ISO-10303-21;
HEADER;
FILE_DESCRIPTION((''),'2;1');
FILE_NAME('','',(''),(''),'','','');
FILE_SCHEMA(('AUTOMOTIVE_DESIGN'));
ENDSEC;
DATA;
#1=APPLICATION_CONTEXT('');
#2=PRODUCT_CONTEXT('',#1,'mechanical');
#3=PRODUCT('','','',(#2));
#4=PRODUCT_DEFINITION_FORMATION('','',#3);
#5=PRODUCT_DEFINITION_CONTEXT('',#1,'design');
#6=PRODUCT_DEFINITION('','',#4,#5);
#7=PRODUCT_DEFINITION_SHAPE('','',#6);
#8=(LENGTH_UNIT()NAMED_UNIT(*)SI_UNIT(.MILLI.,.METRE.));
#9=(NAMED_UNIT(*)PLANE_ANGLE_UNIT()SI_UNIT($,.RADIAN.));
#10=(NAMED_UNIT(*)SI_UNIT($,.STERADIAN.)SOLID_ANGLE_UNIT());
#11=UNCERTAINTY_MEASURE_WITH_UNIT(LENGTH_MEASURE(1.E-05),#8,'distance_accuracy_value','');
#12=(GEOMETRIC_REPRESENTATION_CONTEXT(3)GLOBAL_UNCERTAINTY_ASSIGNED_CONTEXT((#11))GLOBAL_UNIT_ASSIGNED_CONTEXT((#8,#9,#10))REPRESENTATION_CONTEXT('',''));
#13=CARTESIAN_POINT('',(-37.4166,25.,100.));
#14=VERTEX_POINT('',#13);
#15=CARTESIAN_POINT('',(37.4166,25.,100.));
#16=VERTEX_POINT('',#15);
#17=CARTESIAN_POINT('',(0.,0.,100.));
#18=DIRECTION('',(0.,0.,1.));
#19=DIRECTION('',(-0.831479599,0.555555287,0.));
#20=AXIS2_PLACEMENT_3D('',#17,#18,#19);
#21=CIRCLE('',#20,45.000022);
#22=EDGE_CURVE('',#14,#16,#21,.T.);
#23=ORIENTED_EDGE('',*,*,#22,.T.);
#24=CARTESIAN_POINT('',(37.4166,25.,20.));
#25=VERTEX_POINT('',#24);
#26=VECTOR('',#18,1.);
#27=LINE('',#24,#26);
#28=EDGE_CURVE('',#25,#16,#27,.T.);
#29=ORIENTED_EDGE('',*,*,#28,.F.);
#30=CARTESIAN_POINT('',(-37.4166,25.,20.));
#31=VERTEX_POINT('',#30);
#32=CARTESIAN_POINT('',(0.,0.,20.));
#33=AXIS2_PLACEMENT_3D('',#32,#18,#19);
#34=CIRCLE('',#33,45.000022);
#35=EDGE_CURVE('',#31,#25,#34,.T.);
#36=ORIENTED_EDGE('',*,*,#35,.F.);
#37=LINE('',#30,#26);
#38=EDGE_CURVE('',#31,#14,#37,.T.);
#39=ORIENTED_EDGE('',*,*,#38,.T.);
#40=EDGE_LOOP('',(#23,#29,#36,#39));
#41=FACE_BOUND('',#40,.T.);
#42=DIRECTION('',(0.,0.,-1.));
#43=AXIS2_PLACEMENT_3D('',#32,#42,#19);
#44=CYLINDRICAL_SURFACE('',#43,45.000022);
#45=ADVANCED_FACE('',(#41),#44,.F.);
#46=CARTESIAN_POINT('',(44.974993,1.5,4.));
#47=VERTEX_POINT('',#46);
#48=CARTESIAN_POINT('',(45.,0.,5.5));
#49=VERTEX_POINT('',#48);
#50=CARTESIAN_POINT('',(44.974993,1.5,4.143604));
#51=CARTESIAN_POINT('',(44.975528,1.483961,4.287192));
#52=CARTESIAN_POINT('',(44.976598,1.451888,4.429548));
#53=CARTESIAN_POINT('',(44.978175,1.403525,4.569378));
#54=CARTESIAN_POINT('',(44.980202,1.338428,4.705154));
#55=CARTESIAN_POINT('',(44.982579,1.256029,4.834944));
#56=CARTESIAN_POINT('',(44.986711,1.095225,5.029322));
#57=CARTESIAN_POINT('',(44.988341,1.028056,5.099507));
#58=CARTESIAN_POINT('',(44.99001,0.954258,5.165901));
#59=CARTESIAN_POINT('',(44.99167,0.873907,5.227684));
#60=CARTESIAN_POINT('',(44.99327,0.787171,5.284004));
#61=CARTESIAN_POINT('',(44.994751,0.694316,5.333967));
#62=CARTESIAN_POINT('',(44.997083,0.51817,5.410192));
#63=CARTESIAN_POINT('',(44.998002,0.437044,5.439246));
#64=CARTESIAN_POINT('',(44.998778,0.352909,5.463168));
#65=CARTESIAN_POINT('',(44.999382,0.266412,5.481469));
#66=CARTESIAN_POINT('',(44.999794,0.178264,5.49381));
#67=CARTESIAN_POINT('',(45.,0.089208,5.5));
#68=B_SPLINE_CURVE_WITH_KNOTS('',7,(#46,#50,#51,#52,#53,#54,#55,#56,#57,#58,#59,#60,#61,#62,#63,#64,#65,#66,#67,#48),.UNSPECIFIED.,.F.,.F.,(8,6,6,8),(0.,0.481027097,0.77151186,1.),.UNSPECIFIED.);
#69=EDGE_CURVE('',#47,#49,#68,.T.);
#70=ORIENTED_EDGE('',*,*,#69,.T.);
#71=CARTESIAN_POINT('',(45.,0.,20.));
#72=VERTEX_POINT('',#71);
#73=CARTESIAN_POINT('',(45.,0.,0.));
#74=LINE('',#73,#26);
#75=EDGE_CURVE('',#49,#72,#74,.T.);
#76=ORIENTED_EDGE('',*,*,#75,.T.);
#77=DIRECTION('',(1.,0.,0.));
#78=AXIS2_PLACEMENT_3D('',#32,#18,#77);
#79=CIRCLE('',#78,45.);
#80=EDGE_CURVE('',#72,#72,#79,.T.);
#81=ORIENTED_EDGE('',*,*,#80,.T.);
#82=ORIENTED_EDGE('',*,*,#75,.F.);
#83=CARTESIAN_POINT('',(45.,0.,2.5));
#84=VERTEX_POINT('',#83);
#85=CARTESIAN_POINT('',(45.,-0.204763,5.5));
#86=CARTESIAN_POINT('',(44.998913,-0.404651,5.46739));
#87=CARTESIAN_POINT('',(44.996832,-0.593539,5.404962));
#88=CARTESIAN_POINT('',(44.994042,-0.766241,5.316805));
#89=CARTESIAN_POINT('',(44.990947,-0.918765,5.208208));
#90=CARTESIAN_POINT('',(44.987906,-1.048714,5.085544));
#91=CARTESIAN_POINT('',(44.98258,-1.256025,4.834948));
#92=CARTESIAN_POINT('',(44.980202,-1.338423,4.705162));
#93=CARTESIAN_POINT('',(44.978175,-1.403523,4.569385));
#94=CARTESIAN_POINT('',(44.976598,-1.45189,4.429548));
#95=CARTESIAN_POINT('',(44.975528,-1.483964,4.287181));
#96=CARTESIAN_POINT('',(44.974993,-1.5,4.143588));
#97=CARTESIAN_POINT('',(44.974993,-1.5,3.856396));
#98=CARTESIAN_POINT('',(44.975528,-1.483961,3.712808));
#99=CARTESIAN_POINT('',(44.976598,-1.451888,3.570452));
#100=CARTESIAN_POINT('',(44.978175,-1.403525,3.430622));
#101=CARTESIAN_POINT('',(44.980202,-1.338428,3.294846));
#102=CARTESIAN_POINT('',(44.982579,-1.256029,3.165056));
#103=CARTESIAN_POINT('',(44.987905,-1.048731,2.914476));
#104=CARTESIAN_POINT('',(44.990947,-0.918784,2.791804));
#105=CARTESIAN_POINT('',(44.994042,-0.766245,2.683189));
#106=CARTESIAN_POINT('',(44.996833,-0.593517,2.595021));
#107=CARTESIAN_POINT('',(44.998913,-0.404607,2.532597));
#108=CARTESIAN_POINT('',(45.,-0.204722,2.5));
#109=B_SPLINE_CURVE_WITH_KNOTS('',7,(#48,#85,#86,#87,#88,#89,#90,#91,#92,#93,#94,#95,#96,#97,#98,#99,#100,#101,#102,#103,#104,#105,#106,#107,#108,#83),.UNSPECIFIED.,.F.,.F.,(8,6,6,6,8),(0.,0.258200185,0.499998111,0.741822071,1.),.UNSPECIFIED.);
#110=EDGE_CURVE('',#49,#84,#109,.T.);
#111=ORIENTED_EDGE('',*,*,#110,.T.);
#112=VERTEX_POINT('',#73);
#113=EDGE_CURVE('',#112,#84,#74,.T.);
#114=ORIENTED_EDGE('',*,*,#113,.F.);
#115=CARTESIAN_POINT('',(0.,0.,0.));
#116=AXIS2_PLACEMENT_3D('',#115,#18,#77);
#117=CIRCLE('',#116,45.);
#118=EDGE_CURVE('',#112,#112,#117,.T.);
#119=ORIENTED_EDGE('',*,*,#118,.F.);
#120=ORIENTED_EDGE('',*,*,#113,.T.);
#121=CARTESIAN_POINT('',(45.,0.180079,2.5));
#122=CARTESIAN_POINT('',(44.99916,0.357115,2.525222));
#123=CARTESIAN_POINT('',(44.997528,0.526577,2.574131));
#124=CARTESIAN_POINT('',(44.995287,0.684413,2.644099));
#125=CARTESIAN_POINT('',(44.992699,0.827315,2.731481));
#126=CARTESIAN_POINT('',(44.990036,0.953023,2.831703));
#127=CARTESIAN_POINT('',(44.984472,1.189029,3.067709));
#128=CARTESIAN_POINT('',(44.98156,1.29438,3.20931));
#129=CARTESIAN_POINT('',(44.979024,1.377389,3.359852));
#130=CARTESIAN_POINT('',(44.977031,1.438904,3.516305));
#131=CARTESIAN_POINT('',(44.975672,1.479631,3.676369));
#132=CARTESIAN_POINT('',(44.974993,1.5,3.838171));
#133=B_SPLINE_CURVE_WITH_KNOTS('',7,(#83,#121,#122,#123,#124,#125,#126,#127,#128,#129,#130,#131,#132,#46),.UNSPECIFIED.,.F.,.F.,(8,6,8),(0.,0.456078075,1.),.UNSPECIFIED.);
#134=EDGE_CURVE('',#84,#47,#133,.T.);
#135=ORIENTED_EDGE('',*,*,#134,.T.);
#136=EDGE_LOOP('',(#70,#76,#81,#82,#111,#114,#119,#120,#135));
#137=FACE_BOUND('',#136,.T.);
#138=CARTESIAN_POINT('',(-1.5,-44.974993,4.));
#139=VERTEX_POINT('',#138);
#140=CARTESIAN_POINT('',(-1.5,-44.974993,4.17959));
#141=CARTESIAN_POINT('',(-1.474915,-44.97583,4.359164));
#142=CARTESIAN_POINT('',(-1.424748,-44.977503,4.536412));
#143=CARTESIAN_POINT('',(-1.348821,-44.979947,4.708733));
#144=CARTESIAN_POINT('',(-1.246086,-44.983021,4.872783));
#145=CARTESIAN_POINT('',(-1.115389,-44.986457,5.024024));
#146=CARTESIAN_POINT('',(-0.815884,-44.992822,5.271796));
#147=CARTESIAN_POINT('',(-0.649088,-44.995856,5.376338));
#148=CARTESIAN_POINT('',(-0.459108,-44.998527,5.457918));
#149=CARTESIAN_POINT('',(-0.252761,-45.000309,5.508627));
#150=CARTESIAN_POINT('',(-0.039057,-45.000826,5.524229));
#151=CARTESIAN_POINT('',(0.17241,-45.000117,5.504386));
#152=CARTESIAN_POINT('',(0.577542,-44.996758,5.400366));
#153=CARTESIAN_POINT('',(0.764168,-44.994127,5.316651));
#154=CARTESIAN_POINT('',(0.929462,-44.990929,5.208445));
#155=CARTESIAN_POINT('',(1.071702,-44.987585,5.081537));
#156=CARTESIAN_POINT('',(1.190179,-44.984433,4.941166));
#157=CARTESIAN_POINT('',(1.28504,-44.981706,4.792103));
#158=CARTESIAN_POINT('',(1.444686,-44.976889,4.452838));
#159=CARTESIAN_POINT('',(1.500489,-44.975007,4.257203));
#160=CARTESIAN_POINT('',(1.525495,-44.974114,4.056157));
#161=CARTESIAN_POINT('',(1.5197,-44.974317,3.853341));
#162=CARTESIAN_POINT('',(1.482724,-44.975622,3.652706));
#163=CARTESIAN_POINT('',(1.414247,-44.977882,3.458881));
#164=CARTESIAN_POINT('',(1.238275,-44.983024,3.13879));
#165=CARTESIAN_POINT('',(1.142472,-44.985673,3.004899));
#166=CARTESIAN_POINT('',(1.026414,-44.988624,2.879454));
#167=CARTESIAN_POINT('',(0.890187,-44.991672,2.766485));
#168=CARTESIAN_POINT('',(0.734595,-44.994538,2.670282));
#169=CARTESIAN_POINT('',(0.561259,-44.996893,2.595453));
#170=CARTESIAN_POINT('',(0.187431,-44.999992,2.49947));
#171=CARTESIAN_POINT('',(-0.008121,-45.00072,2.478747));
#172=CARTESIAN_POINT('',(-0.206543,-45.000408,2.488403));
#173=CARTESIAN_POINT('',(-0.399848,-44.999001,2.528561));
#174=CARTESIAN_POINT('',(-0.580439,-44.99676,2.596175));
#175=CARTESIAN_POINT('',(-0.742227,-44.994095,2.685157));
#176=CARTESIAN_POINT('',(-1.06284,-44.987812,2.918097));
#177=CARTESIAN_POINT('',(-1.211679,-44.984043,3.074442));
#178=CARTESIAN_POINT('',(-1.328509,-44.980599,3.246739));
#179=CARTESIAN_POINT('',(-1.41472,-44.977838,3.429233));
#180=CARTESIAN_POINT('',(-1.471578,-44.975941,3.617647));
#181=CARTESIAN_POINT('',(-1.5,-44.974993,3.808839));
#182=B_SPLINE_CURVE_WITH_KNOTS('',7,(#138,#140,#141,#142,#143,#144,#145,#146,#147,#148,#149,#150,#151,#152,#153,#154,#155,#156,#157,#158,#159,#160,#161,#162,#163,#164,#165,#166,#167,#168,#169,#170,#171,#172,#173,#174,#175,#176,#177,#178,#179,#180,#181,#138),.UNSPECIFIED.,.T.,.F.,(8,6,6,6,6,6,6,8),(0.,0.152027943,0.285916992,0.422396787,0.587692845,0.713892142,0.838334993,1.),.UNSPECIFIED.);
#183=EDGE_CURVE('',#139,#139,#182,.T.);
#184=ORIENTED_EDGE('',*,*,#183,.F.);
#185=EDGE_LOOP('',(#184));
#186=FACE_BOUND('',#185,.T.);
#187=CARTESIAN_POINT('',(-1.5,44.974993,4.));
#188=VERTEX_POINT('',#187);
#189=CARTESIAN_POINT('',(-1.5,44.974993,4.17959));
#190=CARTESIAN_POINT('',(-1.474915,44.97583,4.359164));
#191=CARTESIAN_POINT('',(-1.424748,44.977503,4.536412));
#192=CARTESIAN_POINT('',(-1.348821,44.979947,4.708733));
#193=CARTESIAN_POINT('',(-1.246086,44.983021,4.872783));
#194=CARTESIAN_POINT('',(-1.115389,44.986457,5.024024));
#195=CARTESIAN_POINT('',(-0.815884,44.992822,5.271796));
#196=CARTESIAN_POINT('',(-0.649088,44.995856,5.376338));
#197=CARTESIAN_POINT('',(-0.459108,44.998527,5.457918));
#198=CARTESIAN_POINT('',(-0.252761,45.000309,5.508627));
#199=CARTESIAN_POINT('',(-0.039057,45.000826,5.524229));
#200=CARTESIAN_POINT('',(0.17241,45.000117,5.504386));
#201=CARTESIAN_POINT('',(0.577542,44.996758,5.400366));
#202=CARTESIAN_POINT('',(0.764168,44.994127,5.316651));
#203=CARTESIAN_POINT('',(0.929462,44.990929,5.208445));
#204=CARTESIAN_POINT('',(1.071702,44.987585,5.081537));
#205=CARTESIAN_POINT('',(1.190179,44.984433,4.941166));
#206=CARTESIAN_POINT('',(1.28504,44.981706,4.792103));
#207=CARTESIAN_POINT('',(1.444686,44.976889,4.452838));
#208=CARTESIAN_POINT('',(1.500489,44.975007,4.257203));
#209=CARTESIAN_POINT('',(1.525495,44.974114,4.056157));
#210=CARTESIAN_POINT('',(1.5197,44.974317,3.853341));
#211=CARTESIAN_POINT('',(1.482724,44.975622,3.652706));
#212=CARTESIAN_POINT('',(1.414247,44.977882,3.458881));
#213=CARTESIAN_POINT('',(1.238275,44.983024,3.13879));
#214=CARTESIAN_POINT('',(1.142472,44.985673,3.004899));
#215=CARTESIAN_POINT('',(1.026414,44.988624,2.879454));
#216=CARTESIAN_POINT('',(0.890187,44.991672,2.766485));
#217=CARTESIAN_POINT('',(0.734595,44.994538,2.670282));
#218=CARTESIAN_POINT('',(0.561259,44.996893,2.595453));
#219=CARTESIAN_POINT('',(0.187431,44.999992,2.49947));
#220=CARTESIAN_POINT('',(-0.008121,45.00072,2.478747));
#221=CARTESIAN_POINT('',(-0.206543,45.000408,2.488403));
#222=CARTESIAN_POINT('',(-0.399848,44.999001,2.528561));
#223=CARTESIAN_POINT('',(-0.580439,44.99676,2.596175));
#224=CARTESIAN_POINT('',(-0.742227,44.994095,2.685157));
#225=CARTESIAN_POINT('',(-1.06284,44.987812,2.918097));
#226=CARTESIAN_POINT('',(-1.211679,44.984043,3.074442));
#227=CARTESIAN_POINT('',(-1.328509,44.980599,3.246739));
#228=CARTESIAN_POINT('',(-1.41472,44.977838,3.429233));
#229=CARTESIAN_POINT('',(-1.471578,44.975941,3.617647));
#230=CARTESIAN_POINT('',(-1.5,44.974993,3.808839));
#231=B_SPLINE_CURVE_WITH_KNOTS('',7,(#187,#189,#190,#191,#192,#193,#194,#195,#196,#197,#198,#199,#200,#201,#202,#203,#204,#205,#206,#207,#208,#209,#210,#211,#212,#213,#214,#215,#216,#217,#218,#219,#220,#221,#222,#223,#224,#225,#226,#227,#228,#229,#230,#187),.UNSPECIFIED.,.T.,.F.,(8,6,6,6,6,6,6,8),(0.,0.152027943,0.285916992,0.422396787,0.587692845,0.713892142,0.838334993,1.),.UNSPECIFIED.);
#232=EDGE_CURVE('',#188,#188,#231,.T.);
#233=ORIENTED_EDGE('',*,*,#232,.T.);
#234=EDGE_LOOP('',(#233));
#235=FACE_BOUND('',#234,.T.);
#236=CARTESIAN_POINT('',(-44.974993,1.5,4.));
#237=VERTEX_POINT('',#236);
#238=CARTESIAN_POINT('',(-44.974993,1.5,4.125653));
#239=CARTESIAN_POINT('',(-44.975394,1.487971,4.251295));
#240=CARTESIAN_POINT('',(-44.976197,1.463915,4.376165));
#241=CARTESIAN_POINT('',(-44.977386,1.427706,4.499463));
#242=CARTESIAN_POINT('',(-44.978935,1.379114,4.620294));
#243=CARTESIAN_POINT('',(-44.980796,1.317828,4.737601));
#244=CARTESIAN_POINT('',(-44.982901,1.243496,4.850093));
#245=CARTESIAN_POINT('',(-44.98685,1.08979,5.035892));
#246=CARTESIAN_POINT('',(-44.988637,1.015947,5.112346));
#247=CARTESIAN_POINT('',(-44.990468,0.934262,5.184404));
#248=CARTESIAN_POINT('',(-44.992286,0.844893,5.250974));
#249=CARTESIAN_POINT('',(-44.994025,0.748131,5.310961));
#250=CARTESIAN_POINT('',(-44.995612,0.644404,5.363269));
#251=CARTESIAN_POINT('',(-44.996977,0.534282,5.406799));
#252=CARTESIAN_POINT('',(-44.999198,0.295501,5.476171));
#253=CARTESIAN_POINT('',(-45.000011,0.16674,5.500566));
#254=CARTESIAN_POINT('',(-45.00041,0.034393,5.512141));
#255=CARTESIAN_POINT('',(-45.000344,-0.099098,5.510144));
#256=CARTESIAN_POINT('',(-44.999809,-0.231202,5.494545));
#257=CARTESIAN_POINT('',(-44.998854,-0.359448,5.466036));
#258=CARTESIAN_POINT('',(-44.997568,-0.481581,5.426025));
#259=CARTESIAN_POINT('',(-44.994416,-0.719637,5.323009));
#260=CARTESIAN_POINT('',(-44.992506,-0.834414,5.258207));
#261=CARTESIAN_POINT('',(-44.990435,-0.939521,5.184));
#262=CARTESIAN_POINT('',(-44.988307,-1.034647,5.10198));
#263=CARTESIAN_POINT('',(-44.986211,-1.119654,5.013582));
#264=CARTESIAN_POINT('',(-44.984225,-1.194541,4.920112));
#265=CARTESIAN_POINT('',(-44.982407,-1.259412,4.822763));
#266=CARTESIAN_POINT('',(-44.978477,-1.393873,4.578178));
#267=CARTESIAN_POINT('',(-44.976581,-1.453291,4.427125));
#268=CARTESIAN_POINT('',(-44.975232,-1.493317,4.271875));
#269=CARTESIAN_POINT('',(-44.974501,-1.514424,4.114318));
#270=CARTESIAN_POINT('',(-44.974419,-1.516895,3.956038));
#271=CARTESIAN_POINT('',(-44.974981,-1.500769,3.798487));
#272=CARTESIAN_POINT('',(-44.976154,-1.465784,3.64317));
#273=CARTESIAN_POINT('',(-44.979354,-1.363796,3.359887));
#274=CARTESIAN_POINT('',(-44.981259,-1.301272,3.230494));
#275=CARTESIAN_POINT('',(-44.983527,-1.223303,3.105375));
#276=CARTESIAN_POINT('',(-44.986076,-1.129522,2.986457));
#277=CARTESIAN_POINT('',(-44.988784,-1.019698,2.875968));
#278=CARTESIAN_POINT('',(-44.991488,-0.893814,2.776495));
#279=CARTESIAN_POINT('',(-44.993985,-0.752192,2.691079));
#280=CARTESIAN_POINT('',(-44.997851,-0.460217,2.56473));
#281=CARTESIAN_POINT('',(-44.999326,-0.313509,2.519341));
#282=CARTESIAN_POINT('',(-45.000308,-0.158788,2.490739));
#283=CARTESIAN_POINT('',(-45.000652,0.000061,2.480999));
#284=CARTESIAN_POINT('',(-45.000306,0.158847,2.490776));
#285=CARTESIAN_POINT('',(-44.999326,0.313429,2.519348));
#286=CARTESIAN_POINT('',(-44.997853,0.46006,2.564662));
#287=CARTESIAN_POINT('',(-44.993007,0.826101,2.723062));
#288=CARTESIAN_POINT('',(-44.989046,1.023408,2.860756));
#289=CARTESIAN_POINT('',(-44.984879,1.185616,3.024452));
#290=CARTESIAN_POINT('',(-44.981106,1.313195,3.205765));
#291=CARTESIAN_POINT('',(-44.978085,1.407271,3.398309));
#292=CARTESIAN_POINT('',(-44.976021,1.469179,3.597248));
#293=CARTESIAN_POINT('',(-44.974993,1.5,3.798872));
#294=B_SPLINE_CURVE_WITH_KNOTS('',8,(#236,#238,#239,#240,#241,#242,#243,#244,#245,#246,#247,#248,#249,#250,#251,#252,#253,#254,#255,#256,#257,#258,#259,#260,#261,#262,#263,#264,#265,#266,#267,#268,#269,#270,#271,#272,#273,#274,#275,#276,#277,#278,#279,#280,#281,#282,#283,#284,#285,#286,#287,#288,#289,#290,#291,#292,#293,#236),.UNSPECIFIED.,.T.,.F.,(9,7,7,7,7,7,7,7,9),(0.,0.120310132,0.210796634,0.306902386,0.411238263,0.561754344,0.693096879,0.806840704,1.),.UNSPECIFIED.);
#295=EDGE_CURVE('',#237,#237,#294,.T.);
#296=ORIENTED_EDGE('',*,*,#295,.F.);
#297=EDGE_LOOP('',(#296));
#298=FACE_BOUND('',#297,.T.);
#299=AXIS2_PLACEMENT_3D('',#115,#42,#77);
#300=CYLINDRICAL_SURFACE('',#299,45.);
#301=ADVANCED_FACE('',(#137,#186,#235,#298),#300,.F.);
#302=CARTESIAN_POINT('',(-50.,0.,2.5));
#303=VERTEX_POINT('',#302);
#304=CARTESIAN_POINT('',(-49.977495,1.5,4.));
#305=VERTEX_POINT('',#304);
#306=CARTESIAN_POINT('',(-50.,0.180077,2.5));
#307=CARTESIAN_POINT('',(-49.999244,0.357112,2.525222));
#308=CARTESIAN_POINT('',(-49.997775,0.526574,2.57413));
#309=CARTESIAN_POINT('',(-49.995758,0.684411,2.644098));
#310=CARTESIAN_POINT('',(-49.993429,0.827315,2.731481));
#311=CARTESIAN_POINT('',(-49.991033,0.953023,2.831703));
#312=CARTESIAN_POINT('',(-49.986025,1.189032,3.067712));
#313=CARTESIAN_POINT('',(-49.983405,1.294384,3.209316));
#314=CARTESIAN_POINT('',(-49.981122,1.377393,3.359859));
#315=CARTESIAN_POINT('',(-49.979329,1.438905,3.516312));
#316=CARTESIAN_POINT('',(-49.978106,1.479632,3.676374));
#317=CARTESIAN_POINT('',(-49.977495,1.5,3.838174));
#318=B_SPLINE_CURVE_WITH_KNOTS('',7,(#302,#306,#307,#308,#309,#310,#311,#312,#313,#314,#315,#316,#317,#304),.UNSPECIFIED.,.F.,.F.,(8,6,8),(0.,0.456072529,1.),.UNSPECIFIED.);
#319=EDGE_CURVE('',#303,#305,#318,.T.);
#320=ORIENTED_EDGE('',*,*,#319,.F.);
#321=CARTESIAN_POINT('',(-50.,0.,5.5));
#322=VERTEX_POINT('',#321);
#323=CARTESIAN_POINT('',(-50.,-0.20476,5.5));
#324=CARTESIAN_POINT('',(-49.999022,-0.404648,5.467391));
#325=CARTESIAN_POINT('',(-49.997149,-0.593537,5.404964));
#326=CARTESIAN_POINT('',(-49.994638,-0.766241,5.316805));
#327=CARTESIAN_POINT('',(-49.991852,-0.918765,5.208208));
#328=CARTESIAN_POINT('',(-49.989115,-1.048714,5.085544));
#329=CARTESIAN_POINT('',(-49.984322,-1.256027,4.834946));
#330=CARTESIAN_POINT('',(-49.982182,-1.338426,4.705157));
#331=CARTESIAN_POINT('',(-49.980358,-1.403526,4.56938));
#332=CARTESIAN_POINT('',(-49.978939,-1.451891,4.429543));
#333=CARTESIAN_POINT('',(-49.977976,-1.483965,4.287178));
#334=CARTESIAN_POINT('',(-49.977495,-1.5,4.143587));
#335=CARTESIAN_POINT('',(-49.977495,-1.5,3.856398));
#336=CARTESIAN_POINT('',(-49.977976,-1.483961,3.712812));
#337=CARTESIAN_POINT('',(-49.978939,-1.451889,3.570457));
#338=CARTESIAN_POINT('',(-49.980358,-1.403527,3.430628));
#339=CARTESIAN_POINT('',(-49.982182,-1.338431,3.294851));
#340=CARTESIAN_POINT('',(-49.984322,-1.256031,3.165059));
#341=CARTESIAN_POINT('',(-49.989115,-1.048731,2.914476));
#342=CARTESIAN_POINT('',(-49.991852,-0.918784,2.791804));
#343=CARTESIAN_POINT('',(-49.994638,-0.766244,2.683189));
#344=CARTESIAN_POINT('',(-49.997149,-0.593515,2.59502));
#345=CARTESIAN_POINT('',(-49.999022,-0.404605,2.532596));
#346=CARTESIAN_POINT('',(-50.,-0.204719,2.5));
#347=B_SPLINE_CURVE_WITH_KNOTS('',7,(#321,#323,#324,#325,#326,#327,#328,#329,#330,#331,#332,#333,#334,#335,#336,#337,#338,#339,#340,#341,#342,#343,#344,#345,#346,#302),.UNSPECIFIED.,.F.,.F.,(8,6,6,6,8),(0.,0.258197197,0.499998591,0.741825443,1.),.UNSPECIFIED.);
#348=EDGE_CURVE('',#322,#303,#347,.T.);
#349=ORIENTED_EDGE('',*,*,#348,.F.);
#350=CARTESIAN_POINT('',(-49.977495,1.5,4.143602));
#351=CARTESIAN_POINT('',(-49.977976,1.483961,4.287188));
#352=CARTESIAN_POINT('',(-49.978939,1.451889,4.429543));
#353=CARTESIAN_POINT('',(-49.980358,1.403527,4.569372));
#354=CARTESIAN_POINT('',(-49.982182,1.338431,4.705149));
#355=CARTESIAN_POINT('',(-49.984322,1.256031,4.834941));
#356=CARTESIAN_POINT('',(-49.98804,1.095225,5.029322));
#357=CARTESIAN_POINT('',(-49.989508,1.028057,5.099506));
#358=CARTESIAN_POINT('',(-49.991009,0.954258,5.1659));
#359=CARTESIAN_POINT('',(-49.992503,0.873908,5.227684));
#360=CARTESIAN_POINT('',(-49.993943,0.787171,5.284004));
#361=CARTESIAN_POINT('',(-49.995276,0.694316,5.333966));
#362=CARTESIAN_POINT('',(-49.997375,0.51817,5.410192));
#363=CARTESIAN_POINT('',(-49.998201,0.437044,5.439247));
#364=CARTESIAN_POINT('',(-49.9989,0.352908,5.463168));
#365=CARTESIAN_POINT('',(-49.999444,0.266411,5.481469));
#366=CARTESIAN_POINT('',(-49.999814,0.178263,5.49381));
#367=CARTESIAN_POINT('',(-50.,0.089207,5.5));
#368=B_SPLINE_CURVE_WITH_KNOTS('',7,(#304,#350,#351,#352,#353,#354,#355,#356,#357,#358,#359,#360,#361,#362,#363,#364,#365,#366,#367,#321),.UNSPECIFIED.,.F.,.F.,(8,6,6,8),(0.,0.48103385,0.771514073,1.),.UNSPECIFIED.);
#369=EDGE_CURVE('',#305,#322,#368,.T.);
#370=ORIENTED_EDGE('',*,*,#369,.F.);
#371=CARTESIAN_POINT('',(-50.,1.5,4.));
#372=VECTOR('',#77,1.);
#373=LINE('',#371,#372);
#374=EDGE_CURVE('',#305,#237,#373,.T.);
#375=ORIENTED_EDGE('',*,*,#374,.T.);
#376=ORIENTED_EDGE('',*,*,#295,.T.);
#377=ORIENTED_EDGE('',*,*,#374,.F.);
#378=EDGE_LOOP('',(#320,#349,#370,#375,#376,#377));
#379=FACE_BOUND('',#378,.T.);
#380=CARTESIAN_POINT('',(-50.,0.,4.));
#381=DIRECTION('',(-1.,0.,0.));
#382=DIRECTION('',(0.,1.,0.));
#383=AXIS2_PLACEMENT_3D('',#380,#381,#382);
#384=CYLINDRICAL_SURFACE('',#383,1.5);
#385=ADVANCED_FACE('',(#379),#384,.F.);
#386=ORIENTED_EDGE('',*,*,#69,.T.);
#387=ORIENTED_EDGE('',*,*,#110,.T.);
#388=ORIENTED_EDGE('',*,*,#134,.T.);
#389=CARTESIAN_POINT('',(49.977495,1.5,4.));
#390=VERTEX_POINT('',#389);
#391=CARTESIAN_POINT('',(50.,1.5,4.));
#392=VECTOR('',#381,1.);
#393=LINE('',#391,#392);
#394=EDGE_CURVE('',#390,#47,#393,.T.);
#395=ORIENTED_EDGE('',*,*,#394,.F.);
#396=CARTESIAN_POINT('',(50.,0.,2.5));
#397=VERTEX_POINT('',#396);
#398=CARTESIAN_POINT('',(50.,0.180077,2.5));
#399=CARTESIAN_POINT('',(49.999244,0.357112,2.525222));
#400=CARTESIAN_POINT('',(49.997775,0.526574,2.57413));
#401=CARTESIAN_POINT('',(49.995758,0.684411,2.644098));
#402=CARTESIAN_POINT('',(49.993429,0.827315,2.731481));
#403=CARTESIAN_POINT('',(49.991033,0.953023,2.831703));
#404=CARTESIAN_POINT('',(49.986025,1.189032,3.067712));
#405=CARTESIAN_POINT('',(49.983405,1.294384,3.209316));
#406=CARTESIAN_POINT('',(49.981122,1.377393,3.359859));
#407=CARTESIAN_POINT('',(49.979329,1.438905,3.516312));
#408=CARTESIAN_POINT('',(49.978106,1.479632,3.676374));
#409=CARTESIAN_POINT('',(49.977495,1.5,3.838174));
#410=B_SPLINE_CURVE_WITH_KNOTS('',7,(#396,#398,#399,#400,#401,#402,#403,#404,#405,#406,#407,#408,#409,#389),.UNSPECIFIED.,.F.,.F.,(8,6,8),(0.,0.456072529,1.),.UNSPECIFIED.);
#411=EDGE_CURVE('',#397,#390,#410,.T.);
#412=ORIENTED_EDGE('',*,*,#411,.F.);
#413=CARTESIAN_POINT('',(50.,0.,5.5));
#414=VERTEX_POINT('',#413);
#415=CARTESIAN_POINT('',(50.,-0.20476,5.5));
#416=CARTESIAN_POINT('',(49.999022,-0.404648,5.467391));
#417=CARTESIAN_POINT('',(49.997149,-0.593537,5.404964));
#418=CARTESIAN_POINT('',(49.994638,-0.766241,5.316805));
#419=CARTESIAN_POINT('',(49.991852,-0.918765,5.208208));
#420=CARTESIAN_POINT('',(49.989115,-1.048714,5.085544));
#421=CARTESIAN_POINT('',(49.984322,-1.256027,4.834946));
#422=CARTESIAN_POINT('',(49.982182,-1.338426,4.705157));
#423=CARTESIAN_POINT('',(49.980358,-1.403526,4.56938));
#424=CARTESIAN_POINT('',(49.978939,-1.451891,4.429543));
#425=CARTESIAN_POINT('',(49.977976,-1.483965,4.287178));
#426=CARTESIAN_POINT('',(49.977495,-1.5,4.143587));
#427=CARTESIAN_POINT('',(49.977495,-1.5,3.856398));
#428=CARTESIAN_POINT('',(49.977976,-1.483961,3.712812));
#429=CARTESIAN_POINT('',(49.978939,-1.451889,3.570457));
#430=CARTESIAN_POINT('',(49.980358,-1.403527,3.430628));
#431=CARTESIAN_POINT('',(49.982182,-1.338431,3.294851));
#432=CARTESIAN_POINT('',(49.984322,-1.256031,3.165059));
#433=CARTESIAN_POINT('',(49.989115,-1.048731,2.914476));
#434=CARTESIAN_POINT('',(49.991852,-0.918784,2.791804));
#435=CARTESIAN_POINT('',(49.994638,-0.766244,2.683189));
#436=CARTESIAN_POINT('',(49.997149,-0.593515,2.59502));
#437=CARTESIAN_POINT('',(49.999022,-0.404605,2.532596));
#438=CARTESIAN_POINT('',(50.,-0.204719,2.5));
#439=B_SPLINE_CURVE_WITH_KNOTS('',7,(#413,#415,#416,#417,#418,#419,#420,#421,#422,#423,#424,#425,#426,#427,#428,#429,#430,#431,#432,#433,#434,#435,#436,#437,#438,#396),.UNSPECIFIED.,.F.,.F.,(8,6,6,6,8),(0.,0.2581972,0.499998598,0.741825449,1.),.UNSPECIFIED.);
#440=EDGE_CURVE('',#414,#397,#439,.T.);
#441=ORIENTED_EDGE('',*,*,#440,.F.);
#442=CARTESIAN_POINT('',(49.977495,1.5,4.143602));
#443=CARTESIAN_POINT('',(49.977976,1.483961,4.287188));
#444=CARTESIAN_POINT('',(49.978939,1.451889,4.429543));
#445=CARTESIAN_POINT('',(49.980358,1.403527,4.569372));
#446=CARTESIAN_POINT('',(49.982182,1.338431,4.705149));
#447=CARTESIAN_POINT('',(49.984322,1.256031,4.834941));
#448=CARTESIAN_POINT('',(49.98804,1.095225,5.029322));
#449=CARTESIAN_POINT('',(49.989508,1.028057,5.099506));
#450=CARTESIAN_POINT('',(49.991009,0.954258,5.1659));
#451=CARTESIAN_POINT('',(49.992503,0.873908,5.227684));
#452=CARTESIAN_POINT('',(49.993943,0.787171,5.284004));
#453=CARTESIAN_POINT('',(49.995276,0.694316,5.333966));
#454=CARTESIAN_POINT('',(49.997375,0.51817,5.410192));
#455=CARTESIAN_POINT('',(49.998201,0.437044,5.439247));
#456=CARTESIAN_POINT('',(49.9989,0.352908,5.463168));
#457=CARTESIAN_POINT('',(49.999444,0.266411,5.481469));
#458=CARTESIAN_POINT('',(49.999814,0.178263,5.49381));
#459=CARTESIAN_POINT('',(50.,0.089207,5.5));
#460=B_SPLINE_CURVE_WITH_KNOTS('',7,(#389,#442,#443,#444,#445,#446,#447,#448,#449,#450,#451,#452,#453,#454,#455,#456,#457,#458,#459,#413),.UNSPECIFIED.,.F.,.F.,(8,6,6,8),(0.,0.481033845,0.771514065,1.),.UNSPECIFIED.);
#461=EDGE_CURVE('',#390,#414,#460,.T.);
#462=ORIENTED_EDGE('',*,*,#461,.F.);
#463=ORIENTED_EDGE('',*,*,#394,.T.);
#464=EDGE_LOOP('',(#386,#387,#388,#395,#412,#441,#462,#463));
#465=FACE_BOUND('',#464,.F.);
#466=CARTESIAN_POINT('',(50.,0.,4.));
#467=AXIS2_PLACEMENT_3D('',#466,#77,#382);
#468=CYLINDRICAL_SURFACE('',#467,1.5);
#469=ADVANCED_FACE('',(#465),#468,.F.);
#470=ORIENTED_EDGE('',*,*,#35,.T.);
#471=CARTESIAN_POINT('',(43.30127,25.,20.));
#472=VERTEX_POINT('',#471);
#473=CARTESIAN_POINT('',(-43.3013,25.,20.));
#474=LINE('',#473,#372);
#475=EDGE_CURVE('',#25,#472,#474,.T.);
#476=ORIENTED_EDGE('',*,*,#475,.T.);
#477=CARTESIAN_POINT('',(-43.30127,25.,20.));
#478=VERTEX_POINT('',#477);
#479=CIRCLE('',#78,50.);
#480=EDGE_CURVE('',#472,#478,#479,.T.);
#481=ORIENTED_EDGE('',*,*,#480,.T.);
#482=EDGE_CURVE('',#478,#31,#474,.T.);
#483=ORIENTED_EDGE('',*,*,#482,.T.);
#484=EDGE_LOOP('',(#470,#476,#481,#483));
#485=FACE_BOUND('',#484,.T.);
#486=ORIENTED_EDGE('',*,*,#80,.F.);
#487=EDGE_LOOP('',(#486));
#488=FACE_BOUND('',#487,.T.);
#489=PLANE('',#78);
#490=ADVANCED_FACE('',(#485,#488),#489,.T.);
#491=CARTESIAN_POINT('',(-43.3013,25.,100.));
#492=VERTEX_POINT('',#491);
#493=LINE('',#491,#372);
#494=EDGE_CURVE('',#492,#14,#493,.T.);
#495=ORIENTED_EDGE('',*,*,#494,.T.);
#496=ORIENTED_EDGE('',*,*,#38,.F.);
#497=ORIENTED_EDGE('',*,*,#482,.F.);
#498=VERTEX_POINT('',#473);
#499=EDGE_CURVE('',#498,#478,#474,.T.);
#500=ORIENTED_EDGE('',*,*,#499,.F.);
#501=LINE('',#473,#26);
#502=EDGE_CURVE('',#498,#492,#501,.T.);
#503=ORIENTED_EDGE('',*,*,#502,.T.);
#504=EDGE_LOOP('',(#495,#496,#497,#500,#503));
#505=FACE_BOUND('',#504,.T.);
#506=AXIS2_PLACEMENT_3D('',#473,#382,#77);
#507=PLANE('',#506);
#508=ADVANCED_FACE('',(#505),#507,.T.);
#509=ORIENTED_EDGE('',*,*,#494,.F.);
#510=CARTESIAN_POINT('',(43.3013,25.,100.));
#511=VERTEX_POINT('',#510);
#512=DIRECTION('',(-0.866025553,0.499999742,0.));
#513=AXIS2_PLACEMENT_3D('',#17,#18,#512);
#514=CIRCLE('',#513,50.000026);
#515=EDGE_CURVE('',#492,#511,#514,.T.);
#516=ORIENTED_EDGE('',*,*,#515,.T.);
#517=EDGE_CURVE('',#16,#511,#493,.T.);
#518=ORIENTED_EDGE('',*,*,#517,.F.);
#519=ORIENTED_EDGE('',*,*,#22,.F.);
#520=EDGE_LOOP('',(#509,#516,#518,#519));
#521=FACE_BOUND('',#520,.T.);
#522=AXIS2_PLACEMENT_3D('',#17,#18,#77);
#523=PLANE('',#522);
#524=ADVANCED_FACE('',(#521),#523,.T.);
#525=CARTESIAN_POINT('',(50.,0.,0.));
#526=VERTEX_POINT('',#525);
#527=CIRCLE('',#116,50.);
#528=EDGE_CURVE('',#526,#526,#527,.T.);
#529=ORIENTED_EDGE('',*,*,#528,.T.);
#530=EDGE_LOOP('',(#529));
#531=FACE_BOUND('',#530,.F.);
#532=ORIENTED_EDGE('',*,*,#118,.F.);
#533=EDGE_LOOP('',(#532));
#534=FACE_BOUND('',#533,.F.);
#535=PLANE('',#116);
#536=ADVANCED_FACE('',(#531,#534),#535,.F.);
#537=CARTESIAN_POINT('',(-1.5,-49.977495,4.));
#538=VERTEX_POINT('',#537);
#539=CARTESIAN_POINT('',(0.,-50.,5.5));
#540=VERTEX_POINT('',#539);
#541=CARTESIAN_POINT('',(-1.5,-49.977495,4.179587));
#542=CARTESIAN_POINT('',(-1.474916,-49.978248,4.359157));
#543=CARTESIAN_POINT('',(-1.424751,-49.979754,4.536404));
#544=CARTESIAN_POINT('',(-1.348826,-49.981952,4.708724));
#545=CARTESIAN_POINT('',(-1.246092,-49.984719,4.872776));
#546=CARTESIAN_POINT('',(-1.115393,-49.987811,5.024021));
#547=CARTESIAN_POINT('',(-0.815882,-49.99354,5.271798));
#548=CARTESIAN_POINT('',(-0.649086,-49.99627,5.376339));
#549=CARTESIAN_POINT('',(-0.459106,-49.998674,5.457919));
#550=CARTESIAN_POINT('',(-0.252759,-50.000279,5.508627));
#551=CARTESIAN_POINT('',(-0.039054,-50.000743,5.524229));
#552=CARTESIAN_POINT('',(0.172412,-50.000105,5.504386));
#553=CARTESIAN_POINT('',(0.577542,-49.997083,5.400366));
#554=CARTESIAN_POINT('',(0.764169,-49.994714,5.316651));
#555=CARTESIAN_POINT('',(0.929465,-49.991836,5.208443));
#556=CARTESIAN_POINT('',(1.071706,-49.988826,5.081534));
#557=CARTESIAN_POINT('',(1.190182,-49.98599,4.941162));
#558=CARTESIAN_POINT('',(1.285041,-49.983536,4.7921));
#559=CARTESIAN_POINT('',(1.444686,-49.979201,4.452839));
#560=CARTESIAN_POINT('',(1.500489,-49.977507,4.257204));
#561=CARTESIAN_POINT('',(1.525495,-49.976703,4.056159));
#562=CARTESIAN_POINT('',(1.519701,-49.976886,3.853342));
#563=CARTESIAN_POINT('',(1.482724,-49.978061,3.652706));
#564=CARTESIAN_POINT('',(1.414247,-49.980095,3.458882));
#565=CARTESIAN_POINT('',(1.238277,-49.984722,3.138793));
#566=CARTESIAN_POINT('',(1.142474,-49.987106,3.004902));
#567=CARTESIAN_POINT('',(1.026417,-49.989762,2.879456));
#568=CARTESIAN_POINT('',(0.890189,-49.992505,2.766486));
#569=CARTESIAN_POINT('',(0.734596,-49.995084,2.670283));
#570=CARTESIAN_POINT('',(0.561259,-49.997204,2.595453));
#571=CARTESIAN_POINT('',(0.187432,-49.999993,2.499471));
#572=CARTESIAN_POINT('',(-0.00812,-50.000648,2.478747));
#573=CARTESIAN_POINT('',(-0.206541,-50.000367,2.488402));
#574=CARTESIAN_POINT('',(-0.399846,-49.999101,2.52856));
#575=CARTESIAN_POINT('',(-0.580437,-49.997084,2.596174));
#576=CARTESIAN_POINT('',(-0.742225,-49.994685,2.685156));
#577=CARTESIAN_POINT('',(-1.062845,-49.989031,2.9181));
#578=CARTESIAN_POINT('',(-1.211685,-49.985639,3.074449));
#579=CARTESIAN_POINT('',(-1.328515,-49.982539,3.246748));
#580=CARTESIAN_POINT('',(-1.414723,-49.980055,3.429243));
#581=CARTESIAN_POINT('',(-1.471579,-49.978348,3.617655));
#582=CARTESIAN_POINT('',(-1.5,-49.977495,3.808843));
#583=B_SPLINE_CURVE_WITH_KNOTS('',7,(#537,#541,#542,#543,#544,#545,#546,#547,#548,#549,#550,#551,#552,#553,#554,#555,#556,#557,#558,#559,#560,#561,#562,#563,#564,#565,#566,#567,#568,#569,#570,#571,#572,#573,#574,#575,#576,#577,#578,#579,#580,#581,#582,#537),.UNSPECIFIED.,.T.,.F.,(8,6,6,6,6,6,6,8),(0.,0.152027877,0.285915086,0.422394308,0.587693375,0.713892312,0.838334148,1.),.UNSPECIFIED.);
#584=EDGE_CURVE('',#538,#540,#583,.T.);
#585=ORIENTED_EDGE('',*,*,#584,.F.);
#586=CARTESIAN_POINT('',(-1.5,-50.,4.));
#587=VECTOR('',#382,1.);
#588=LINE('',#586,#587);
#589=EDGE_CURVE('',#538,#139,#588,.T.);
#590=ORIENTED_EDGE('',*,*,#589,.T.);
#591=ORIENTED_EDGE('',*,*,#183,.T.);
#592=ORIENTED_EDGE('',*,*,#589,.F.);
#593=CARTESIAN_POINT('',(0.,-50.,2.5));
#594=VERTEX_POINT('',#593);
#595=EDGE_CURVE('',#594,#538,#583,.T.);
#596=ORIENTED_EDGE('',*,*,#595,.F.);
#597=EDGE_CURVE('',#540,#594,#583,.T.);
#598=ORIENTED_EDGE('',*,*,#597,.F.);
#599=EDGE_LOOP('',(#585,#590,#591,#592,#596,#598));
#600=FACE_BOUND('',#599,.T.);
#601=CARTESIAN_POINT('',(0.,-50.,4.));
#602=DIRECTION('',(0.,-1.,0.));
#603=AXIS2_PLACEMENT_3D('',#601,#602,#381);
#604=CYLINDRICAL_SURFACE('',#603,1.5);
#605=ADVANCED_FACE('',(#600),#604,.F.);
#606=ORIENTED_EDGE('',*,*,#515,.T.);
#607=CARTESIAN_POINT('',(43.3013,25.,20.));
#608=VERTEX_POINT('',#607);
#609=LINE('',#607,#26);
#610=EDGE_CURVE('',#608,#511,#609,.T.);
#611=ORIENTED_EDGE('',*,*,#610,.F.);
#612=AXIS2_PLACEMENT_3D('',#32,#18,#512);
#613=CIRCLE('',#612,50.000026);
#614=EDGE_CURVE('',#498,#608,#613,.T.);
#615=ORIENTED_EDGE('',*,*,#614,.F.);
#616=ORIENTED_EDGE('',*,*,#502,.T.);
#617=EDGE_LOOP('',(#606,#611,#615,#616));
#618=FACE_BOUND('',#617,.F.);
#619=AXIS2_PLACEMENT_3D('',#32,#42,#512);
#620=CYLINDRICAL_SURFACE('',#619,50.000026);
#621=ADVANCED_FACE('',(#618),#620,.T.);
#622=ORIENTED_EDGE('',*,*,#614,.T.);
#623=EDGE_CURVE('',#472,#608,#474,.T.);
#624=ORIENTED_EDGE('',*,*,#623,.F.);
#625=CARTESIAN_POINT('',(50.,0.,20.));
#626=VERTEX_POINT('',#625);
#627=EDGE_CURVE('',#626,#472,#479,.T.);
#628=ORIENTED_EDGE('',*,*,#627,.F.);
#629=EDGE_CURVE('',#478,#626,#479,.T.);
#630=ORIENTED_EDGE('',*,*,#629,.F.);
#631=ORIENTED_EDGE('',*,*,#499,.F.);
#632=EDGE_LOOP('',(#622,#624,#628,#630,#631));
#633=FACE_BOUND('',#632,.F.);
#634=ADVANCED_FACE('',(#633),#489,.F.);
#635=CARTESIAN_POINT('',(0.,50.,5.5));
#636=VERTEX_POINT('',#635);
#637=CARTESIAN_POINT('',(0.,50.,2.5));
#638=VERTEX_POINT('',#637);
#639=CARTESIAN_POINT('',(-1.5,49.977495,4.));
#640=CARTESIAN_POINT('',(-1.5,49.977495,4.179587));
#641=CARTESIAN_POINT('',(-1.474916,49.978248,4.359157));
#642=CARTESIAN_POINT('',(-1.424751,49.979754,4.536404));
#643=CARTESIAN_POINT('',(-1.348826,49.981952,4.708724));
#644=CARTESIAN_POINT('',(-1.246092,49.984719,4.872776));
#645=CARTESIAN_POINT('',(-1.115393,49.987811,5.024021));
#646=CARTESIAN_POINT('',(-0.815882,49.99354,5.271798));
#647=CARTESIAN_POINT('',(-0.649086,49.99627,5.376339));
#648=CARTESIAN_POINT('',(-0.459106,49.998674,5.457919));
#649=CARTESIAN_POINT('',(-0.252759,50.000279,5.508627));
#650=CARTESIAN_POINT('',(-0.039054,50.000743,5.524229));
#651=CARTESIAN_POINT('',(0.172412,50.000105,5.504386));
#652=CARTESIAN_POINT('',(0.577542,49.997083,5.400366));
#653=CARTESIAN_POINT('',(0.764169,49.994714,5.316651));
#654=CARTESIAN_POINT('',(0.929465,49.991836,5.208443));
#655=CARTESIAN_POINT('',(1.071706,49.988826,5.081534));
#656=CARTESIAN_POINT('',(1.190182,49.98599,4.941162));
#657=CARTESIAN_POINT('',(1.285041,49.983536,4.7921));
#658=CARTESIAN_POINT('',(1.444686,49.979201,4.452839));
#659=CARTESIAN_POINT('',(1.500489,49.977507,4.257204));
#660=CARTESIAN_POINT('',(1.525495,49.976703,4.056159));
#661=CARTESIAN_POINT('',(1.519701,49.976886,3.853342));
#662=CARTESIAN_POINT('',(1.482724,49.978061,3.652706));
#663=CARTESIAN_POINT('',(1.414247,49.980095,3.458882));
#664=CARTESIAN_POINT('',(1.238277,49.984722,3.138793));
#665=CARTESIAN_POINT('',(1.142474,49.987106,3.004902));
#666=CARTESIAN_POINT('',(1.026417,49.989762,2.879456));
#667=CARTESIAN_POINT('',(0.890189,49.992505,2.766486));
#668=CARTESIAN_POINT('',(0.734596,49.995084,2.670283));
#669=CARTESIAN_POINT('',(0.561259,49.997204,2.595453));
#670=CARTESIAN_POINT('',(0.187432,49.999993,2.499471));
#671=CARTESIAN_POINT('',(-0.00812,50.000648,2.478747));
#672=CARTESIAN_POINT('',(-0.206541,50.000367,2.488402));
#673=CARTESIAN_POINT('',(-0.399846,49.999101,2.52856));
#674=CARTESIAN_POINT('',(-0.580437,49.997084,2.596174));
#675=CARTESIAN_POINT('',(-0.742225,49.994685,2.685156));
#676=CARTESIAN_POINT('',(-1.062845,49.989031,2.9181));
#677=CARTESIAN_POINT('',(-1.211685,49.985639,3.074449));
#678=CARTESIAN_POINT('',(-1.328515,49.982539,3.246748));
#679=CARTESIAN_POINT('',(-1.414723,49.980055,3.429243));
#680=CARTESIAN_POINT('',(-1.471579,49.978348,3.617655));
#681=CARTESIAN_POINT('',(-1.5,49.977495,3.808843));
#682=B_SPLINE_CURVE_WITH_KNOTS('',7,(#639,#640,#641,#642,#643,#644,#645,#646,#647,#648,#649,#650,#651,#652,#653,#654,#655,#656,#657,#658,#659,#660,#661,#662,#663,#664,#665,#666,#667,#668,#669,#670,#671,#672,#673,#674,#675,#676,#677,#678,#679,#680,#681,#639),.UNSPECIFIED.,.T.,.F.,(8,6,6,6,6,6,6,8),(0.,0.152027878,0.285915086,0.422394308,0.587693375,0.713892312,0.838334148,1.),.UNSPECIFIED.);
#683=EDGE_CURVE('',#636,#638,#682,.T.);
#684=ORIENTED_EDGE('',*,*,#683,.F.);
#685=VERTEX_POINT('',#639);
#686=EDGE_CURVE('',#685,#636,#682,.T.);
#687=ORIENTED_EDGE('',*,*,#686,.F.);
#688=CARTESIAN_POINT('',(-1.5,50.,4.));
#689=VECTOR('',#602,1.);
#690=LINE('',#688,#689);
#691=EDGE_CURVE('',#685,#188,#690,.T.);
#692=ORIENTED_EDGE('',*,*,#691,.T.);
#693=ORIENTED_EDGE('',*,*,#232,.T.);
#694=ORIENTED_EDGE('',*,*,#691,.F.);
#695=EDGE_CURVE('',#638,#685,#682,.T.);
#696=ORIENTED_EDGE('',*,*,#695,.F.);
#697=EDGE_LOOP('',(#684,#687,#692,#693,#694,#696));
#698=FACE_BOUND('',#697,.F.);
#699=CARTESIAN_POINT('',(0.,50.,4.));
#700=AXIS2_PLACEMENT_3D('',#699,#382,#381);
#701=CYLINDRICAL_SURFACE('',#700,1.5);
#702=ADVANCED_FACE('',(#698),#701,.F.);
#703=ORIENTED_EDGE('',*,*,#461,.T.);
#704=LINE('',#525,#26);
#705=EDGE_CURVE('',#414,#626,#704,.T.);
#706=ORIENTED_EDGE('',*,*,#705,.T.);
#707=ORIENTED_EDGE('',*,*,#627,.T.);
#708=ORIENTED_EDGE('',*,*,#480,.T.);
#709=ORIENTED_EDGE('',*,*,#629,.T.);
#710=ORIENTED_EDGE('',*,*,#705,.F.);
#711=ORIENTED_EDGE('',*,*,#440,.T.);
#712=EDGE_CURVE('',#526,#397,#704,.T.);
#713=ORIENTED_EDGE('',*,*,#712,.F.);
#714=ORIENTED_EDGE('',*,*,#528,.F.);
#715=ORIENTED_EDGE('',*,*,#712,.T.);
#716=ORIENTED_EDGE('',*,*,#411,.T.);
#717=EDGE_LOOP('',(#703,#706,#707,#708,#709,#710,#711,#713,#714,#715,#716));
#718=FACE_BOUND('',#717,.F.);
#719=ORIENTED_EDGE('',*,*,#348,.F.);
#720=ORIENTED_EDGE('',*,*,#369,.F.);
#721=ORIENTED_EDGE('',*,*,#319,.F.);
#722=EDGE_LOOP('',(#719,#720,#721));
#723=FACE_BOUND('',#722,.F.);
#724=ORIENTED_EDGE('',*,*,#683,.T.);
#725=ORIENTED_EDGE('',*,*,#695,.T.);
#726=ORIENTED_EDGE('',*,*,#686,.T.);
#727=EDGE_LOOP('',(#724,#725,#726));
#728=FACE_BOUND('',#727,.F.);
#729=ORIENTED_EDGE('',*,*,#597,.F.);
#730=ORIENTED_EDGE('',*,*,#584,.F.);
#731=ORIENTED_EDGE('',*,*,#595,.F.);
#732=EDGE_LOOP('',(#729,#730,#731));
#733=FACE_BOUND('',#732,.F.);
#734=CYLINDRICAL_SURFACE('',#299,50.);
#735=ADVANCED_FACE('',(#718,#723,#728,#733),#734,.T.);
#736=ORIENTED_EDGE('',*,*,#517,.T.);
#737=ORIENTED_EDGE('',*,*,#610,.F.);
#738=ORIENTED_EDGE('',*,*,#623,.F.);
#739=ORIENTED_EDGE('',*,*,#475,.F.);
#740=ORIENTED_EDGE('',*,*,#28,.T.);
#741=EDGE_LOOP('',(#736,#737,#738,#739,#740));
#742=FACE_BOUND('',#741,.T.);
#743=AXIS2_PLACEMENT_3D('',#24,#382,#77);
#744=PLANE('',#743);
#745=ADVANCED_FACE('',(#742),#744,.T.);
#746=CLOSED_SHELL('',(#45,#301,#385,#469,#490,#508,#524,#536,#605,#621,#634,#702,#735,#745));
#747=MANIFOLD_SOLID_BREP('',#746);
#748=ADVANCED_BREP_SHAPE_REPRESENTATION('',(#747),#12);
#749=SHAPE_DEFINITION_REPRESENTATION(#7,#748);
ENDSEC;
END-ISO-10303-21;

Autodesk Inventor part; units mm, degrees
sketch "スケッチ1" plane through (0, 0, 0) normal (0, 0, 1) x (1, 0, 0)
  circle A0 centre (0, 0) radius 45
  circle A1 centre (0, 0) radius 50
  dimension "d0" = 90
  dimension "d1" = 100
extrude "押し出し1" add sketch "スケッチ1" along normal blind 20
sketch "スケッチ2" plane through (0, 0, 20) normal (0, 0, 1) x (1, 0, 0)
  arc A0 (-37.4166, 25) -> (37.4166, 25) centre (0, 0) ccw
  arc A1 (-43.3013, 25) -> (43.3013, 25) centre (0, 0) ccw
  line L0 (0, 0) -> (-43.3013, 25) construction
  circle A2 centre (0, 0) radius 50 construction
  line L1 (0, 0) -> (50, 0) construction
  line L2 (0, 0) -> (43.3013, 25) construction
  line L3 (0, 0) -> (50, 0) construction
  line L4 (-43.3013, 25) -> (43.3013, 25)
  dimension "d4" = 150
  dimension "d5" = 30
extrude "押し出し2" add sketch "スケッチ2" along normal blind 80 contours A0 L4 A1
ref_plane "作業平面1" through (50, 0, 0) normal (1, 0, 0) x (0, 1, 0)
sketch "スケッチ3" plane through (50, 0, 0) normal (1, 0, 0) x (0, 1, 0)
  line L0 (0, 0) -> (0, 4) construction
  circle A0 centre (0, 4) radius 1.5
  dimension "d9" = 4
  dimension "d10" = 3
extrude "押し出し3" cut sketch "スケッチ3" against normal blind 6
ref_plane "作業平面2" through (-50, 0, 0) normal (1, 0, 0) x (0, 1, 0)
ref_plane "作業平面3" through (0, 50, 0) normal (0, 1, 0) x (-1, 0, 0)
ref_plane "作業平面4" through (0, -50, 0) normal (0, 1, 0) x (-1, 0, 0)
sketch "スケッチ4" plane through (0, 50, 0) normal (0, 1, 0) x (-1, 0, 0)
  line L0 (0, 0) -> (0, 4) construction
  circle A0 centre (0, 4) radius 1.5
  dimension "d16" = 4
  dimension "d17" = 3
extrude "押し出し4" cut sketch "スケッチ4" against normal blind 6
sketch "スケッチ5" plane through (-50, 0, 0) normal (1, 0, 0) x (0, 1, 0)
  line L0 (0, 0) -> (0, 4) construction
  circle A0 centre (0, 4) radius 1.5
  dimension "d20" = 4
  dimension "d21" = 3
extrude "押し出し5" cut sketch "スケッチ5" along normal blind 6
sketch "スケッチ6" plane through (0, -50, 0) normal (0, 1, 0) x (-1, 0, 0)
  line L0 (0, 0) -> (0, 4) construction
  line L1 (0, 5.5) -> (0, 2.5) construction
  circle A0 centre (0, 4) radius 1.5
  dimension "d24" = 4
  dimension "d25" = 3
extrude "押し出し6" cut sketch "スケッチ6" along normal blind 6
properties part number "InsideCover"
